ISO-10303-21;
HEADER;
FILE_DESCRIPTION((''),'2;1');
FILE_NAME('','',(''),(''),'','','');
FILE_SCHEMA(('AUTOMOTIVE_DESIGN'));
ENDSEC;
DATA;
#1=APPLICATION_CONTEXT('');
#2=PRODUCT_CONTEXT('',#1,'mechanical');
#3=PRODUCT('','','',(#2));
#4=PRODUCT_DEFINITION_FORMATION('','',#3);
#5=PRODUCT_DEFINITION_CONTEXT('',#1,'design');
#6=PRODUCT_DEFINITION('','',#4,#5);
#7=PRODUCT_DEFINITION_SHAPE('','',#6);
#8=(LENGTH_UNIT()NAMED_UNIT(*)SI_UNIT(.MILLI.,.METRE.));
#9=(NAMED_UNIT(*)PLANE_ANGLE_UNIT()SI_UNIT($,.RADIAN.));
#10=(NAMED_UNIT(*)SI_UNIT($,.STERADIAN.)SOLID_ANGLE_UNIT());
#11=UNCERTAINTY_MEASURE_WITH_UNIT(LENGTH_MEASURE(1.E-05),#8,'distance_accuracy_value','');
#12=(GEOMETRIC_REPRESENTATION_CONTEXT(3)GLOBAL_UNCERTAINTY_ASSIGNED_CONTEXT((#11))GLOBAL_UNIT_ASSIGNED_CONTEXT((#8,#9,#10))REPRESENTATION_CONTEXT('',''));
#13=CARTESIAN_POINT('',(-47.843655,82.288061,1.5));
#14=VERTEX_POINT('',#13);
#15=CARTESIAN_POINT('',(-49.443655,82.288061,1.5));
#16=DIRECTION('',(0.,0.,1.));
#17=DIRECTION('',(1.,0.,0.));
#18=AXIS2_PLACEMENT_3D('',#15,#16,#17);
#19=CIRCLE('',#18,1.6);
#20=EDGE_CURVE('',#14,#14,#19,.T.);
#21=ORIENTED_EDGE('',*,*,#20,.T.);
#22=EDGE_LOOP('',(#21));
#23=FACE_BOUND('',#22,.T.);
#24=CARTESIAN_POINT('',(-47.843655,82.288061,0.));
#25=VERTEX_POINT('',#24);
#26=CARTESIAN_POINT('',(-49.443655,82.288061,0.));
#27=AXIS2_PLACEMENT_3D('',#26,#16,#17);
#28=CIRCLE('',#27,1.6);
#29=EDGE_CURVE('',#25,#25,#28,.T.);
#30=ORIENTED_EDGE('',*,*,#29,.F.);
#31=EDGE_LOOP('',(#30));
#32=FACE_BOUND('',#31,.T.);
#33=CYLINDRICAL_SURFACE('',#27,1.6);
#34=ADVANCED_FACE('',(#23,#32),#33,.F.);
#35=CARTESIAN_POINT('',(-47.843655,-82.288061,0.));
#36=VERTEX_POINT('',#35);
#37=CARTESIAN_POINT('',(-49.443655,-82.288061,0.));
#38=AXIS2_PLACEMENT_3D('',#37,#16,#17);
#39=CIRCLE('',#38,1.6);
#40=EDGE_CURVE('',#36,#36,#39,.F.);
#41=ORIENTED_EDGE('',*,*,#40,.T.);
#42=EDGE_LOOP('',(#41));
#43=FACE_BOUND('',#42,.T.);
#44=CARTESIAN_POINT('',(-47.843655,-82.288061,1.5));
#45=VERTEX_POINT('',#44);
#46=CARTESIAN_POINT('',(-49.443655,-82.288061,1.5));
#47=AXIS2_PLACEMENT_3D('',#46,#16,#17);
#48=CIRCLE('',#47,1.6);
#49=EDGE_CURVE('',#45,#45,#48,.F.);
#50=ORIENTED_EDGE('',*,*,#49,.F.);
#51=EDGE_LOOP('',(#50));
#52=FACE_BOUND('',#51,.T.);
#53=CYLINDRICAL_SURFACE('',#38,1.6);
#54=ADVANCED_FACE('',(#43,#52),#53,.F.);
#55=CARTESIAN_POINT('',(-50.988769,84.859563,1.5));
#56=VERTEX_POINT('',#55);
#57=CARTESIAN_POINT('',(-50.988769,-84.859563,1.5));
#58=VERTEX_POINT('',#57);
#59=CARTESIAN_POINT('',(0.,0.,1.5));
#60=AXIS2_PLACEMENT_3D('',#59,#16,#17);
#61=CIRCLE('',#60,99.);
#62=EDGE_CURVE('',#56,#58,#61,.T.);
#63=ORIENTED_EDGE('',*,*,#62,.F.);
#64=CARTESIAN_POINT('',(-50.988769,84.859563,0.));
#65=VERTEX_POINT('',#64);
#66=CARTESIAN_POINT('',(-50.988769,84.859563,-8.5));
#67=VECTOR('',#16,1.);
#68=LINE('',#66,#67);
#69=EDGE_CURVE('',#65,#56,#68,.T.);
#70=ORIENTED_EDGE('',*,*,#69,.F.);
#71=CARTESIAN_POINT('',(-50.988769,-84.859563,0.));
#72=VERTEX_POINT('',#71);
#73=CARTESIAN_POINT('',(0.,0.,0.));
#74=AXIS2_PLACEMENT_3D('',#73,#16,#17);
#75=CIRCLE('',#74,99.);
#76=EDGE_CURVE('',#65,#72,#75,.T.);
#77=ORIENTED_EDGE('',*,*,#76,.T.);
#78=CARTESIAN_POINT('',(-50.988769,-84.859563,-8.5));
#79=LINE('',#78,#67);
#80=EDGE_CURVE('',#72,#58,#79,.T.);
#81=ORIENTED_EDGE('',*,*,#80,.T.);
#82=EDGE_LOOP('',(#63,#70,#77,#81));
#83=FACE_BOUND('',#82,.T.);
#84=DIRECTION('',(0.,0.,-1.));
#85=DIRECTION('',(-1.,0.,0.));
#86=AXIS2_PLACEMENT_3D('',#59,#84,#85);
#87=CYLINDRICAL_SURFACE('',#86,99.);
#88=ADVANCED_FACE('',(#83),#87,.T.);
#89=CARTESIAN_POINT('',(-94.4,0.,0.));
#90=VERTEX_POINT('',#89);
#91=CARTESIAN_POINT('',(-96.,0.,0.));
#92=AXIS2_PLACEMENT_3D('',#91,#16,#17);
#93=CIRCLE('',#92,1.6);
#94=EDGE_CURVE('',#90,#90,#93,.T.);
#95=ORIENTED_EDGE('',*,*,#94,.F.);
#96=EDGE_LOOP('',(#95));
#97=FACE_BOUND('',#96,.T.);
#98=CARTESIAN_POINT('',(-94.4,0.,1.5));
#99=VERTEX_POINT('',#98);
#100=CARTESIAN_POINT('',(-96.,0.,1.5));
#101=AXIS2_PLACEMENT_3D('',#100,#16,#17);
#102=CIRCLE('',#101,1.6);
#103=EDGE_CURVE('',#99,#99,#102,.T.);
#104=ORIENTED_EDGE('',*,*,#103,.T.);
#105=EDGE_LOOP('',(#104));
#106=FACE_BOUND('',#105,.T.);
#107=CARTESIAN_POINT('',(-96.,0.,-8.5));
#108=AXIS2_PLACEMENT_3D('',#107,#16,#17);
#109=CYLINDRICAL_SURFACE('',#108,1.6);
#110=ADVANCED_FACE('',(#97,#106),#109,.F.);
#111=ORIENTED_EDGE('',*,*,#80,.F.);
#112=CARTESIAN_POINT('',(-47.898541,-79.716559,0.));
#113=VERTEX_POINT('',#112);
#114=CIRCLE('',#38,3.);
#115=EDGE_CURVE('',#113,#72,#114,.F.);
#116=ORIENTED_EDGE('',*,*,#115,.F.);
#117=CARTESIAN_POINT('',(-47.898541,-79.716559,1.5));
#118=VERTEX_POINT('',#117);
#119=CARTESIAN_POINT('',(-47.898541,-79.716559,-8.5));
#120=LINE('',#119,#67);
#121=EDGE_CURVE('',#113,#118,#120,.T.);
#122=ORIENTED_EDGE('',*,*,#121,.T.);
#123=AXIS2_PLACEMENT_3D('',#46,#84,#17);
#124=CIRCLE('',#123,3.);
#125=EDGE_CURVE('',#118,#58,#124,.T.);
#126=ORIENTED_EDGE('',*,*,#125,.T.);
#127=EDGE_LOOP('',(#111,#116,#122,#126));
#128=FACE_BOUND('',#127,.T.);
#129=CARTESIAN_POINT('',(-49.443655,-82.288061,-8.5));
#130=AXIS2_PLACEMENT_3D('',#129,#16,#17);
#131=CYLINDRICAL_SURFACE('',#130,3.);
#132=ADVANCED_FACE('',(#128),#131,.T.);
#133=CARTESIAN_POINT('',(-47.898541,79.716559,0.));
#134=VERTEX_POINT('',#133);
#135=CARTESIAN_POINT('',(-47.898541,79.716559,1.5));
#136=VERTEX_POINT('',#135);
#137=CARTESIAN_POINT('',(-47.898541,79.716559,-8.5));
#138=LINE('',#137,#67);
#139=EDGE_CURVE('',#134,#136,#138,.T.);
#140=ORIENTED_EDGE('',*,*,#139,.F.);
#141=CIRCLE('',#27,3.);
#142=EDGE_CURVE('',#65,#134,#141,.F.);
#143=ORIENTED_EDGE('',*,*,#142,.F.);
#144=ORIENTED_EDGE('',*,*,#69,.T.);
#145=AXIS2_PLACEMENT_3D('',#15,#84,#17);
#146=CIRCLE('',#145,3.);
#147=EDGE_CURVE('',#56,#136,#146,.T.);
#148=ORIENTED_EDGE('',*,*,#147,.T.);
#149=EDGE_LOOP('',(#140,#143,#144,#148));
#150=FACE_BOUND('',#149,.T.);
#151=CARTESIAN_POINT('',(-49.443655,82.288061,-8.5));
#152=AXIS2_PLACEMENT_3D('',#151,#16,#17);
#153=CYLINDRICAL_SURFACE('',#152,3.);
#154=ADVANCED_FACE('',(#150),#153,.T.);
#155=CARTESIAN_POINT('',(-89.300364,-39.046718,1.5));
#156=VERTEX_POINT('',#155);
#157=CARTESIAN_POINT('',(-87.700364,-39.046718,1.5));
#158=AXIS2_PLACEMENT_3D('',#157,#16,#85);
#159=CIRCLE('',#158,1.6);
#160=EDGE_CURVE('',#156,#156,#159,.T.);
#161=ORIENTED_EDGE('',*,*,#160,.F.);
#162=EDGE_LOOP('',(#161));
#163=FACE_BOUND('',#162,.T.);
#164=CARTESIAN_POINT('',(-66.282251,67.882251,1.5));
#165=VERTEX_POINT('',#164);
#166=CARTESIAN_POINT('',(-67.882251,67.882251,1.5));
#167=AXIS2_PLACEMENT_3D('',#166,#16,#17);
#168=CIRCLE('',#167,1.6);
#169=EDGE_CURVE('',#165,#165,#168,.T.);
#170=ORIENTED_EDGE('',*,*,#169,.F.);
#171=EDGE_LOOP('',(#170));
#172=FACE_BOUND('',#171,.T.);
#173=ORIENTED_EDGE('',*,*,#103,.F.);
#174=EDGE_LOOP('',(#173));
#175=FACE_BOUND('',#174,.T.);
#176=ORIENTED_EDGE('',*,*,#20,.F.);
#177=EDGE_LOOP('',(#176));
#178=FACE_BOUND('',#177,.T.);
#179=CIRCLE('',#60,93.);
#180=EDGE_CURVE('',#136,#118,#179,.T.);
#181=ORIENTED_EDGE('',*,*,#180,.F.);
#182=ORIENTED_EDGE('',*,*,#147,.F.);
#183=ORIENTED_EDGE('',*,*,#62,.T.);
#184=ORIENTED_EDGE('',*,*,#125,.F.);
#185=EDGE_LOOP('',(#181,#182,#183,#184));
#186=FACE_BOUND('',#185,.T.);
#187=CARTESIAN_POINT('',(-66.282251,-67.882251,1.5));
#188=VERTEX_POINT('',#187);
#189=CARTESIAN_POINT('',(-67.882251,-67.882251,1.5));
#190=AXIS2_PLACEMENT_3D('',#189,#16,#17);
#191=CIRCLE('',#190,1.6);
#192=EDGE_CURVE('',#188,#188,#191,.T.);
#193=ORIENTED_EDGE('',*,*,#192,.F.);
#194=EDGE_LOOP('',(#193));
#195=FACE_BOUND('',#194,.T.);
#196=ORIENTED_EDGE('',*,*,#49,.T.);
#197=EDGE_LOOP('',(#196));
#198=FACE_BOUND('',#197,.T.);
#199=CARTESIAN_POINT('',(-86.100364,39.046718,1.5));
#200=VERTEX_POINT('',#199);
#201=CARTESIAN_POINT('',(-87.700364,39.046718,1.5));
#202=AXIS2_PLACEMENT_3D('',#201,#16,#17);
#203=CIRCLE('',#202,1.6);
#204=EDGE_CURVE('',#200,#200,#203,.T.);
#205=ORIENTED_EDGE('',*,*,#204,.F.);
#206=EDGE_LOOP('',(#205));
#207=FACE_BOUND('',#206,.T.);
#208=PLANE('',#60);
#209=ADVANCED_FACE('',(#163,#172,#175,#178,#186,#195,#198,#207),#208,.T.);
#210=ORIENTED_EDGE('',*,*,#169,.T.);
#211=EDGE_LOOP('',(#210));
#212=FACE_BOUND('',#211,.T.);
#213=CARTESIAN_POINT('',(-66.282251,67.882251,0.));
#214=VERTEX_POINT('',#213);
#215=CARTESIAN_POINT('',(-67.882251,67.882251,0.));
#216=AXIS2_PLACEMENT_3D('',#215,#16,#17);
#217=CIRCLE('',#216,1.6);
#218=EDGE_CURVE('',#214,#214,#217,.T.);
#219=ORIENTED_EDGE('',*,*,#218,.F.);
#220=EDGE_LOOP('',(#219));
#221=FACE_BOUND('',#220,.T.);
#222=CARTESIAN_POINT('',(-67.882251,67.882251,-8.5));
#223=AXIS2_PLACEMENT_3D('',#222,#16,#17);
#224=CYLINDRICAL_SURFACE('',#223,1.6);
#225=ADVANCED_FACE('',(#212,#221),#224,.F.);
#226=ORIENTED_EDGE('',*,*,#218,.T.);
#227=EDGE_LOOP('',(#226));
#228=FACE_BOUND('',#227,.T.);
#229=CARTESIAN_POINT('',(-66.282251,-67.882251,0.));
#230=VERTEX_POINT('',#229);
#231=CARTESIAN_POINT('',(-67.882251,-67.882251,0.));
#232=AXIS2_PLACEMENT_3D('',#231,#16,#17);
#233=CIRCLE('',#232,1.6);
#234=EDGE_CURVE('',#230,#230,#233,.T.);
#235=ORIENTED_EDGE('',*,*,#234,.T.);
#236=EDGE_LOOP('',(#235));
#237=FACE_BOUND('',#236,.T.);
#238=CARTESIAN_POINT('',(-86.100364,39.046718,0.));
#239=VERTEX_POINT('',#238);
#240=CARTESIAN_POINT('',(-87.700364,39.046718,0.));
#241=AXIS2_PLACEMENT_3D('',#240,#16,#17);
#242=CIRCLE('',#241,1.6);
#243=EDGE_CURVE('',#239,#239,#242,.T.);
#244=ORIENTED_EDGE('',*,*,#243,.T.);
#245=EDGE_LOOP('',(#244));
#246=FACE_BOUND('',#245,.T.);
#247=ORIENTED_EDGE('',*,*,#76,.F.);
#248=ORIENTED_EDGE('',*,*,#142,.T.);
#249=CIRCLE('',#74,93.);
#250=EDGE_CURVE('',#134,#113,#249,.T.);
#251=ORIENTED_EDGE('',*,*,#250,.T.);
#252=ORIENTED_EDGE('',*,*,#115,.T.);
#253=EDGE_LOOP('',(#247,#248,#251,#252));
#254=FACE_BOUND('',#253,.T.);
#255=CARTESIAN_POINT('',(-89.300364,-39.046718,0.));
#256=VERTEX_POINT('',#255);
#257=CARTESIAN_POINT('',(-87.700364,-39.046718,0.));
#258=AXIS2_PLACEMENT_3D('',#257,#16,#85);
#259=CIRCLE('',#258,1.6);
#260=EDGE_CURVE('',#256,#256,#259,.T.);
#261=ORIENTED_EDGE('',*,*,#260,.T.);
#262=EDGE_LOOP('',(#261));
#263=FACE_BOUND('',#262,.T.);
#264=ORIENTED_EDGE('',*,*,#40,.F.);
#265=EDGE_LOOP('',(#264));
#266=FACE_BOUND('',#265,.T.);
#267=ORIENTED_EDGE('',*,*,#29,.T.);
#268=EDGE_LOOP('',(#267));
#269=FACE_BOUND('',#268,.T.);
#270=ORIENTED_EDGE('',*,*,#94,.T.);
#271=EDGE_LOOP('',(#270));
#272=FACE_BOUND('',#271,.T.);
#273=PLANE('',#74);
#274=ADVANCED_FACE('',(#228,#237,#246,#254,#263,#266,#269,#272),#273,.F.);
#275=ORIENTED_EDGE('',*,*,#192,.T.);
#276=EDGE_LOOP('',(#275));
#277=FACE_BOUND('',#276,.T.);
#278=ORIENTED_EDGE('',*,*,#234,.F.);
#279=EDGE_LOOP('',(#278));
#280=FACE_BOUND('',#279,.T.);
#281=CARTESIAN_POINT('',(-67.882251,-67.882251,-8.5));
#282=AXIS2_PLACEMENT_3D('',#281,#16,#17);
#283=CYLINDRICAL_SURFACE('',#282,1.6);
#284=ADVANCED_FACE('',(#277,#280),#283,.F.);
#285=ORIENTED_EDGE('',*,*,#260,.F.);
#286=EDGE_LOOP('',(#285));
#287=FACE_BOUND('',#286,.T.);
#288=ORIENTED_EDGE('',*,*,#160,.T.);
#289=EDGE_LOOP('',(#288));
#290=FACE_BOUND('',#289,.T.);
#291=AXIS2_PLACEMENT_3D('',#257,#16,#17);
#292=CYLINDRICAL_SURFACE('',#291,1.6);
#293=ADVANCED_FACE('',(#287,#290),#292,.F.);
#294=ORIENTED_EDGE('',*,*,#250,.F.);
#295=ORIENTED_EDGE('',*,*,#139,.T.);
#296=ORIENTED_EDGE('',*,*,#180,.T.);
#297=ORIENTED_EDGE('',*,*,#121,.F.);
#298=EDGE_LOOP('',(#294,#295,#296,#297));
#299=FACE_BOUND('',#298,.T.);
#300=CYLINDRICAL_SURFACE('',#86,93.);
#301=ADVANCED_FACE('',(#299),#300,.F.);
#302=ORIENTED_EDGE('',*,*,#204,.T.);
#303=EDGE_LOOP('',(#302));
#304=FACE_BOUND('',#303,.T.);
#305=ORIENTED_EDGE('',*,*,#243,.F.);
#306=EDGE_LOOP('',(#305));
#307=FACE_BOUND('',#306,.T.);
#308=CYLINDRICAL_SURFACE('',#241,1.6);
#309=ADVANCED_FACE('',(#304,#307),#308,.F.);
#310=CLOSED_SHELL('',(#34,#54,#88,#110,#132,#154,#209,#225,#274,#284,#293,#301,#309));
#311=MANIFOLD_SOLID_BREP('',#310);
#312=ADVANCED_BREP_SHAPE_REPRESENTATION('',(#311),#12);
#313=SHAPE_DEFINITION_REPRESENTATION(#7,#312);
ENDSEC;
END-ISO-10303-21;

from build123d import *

# Parameters (mm, degrees)
SKETCH1_R            = 1.4
SKETCH1_R_2          = 1.6
SKETCH1_R_3          = 56
BOSS_EXTRUDE2_DEPTH  = 1.5
BOSS_EXTRUDE3_DEPTH  = 1.5
SKETCH3_R            = 1.6
CUT_EXTRUDE1_DEPTH   = 10
SKETCH4_R            = 1.6
BOSS_EXTRUDE4_DEPTH  = 1.5
FILLET1_R            = 3
SKETCH5_R            = 1.6
BOSS_EXTRUDE5_DEPTH  = 1.5
SKETCH6_R            = 1.6
CUT_EXTRUDE2_DEPTH   = 1.5
CUT_EXTRUDE3_DEPTH   = 10
SKETCH8_R            = 1.4
BOSS_EXTRUDE6_DEPTH  = 1.5
SKETCH9_W            = 144
SKETCH9_H            = 6
BOSS_EXTRUDE7_DEPTH  = 1.5
BOSS_EXTRUDE8_DEPTH  = 1.5
SKETCH11_W           = 71.777589622
SKETCH11_H           = 10.305965164
CUT_EXTRUDE4_DEPTH   = 41
SKETCH12_W           = 71.777589622
SKETCH12_H           = 6
BOSS_EXTRUDE9_DEPTH  = 1.5
SKETCH13_W           = 6
SKETCH13_H           = 51.475780146
SKETCH13_H_2         = 46.82423944
BOSS_EXTRUDE10_DEPTH = 1.5
SKETCH14_W           = 66
SKETCH14_H           = 6
CUT_EXTRUDE5_DEPTH   = 41
BOSS_EXTRUDE11_DEPTH = 1.5
SKETCH16_R           = 1.6
CUT_EXTRUDE6_DEPTH   = 5
SKETCH17_R           = 1.6
CUT_EXTRUDE7_DEPTH   = 5
SKETCH18_R           = 1.6
BOSS_EXTRUDE14_DEPTH = 1.5
BOSS_EXTRUDE15_DEPTH = 1.5
SKETCH21_W           = 1.5
SKETCH21_H           = 32.106154556
BOSS_EXTRUDE16_DEPTH = 1.5
SKETCH22_R           = 1.6
SKETCH22_R_2         = 1.7
CUT_EXTRUDE9_DEPTH   = 1.5
BOSS_EXTRUDE17_DEPTH = 1.5
SKETCH24_R           = 1.6
CUT_EXTRUDE10_DEPTH  = 1.5
SKETCH25_R           = 1.6
BOSS_EXTRUDE18_DEPTH = 1.5
SKETCH26_R           = 1.6
CUT_EXTRUDE11_DEPTH  = 1.5
SKETCH28_R           = 1.6
CUT_EXTRUDE12_DEPTH  = 1.5
SKETCH29_R           = 1.6
BOSS_EXTRUDE19_DEPTH = 1.5
SKETCH30_W           = 4.95
SKETCH30_H           = 32.106154556
SKETCH30_W_2         = 1.5
CUT_EXTRUDE13_DEPTH  = 1.5
BOSS_EXTRUDE20_DEPTH = 1.5
SKETCH32_R           = 1.6
BOSS_EXTRUDE21_DEPTH = 1.5
CUT_EXTRUDE14_DEPTH  = 10
SKETCH34_R           = 1.6
CUT_EXTRUDE15_DEPTH  = 10


with BuildPart() as part:
    # Sketch1 → Boss-Extrude2 (new body)
    with BuildSketch(Plane.XY):
        with BuildLine():
            Line((-35.888794811, 73.41211972), (-35.888794811, 92.265889727))
            ThreePointArc((-35.888794811, 92.265889727), (-42.061063674, 89.620683565), (-48.039811225, 86.563136135))
            Line((-48.039811225, 86.563136135), (-41.888794811, 80.41211972))
            Line((-41.888794811, 80.41211972), (-41.888794811, 65.59143593))
            Line((-41.888794811, 65.59143593), (-53.74011537, 53.74011537))
            Line((-53.74011537, 53.74011537), (-65.053823869, 42.426406871))
            Line((-65.053823869, 42.426406871), (-71.46564447, 36.01458627))
            Line((-71.46564447, 36.01458627), (-82.641648571, 47.190590371))
            ThreePointArc((-82.641648571, 47.190590371), (-85.206397148, 48.036317618), (-87.411811693, 46.477684716))
            ThreePointArc((-87.411811693, 46.477684716), (-99, 0), (-87.411811693, -46.477684716))
            ThreePointArc((-87.411811693, -46.477684716), (-85.206397148, -48.036317618), (-82.641648571, -47.190590371))
            Line((-82.641648571, -47.190590371), (-71.46564447, -36.01458627))
            Line((-71.46564447, -36.01458627), (-65.053823869, -42.426406871))
            Line((-65.053823869, -42.426406871), (-53.74011537, -53.74011537))
            Line((-53.74011537, -53.74011537), (-41.888794811, -65.59143593))
            Line((-41.888794811, -65.59143593), (-41.888794811, -80.41211972))
            Line((-41.888794811, -80.41211972), (-48.039811225, -86.563136135))
            ThreePointArc((-48.039811225, -86.563136135), (-42.061063674, -89.620683565), (-35.888794811, -92.265889727))
            Line((-35.888794811, -92.265889727), (-35.888794811, -73.41211972))
            Line((-35.888794811, -73.41211972), (35.888794811, -73.41211972))
            Line((35.888794811, -73.41211972), (35.888794811, -92.265889727))
            ThreePointArc((35.888794811, -92.265889727), (42.061063674, -89.620683565), (48.039811225, -86.563136135))
            Line((48.039811225, -86.563136135), (41.888794811, -80.41211972))
            Line((41.888794811, -80.41211972), (41.888794811, -65.59143593))
            Line((41.888794811, -65.59143593), (53.74011537, -53.74011537))
            Line((53.74011537, -53.74011537), (65.053823869, -42.426406871))
            Line((65.053823869, -42.426406871), (71.46564447, -36.01458627))
            Line((71.46564447, -36.01458627), (82.641648571, -47.190590371))
            ThreePointArc((82.641648571, -47.190590371), (85.206397148, -48.036317618), (87.411811693, -46.477684716))
            ThreePointArc((87.411811693, -46.477684716), (99, 0), (87.411811693, 46.477684716))
            ThreePointArc((87.411811693, 46.477684716), (85.206397148, 48.036317618), (82.641648571, 47.190590371))
            Line((82.641648571, 47.190590371), (71.46564447, 36.01458627))
            Line((71.46564447, 36.01458627), (65.053823869, 42.426406871))
            Line((65.053823869, 42.426406871), (53.74011537, 53.74011537))
            Line((53.74011537, 53.74011537), (41.888794811, 65.59143593))
            Line((41.888794811, 65.59143593), (41.888794811, 80.41211972))
            Line((41.888794811, 80.41211972), (48.039811225, 86.563136135))
            ThreePointArc((48.039811225, 86.563136135), (42.061063674, 89.620683565), (35.888794811, 92.265889727))
            Line((35.888794811, 92.265889727), (35.888794811, 73.41211972))
            Line((35.888794811, 73.41211972), (-35.888794811, 73.41211972))
        make_face()
        with Locations((-36.062445841, 54.447222151)):
            Circle(SKETCH1_R, mode=Mode.SUBTRACT)
        with Locations((-54.447222151, 36.062445841)):
            Circle(SKETCH1_R, mode=Mode.SUBTRACT)
        with Locations((-60.104076401, 41.71930009)):
            Circle(SKETCH1_R, mode=Mode.SUBTRACT)
        with Locations((-41.71930009, 60.104076401)):
            Circle(SKETCH1_R, mode=Mode.SUBTRACT)
        with Locations((41.365746699, 41.365746699)):
            Circle(SKETCH1_R_2, mode=Mode.SUBTRACT)
        with Locations((41.71930009, 60.104076401)):
            Circle(SKETCH1_R, mode=Mode.SUBTRACT)
        with Locations((60.104076401, 41.71930009)):
            Circle(SKETCH1_R, mode=Mode.SUBTRACT)
        with Locations((54.447222151, 36.062445841)):
            Circle(SKETCH1_R, mode=Mode.SUBTRACT)
        Circle(SKETCH1_R_3, mode=Mode.SUBTRACT)
        with Locations((36.062445841, 54.447222151)):
            Circle(SKETCH1_R, mode=Mode.SUBTRACT)
        with Locations((-40.571353127, 87.005547556)):
            Circle(SKETCH1_R_2, mode=Mode.SUBTRACT)
        with Locations((40.571353127, -87.005547556)):
            Circle(SKETCH1_R_2, mode=Mode.SUBTRACT)
        with Locations((-40.571353127, -87.005547556)):
            Circle(SKETCH1_R_2, mode=Mode.SUBTRACT)
        with Locations((41.365746699, -41.365746699)):
            Circle(SKETCH1_R_2, mode=Mode.SUBTRACT)
        with Locations((-41.365746699, 41.365746699)):
            Circle(SKETCH1_R_2, mode=Mode.SUBTRACT)
        with Locations((-84.762968914, 45.069270027)):
            Circle(SKETCH1_R_2, mode=Mode.SUBTRACT)
        with Locations((-41.365746699, -41.365746699)):
            Circle(SKETCH1_R_2, mode=Mode.SUBTRACT)
        with Locations((84.762968914, 45.069270027)):
            Circle(SKETCH1_R_2, mode=Mode.SUBTRACT)
        with Locations((40.571353127, 87.005547556)):
            Circle(SKETCH1_R_2, mode=Mode.SUBTRACT)
        with Locations((36.062445841, -54.447222151)):
            Circle(SKETCH1_R, mode=Mode.SUBTRACT)
        with Locations((54.447222151, -36.062445841)):
            Circle(SKETCH1_R, mode=Mode.SUBTRACT)
        with Locations((60.104076401, -41.71930009)):
            Circle(SKETCH1_R, mode=Mode.SUBTRACT)
        with Locations((41.71930009, -60.104076401)):
            Circle(SKETCH1_R, mode=Mode.SUBTRACT)
        with Locations((-41.71930009, -60.104076401)):
            Circle(SKETCH1_R, mode=Mode.SUBTRACT)
        with Locations((-60.104076401, -41.71930009)):
            Circle(SKETCH1_R, mode=Mode.SUBTRACT)
        with Locations((-54.447222151, -36.062445841)):
            Circle(SKETCH1_R, mode=Mode.SUBTRACT)
        with Locations((-36.062445841, -54.447222151)):
            Circle(SKETCH1_R, mode=Mode.SUBTRACT)
        with Locations((84.762968914, -45.069270027)):
            Circle(SKETCH1_R_2, mode=Mode.SUBTRACT)
        with Locations((-84.762968914, -45.069270027)):
            Circle(SKETCH1_R_2, mode=Mode.SUBTRACT)
        with BuildLine():
            Line((-56.568542495, 42.426406871), (-49.621038435, 35.478902811))
            ThreePointArc((-49.621038435, 35.478902811), (-43.133513652, 43.133513652), (-35.478902811, 49.621038435))
            Line((-35.478902811, 49.621038435), (-42.426406871, 56.568542495))
            Line((-42.426406871, 56.568542495), (-56.568542495, 42.426406871))
        make_face(mode=Mode.SUBTRACT)
        with BuildLine():
            Line((-57.337431152, 34.710014154), (-52.937019276, 30.309602278))
            ThreePointArc((-52.937019276, 30.309602278), (-61, 0), (-52.937019276, -30.309602278))
            Line((-52.937019276, -30.309602278), (-57.337431152, -34.710014154))
            Line((-57.337431152, -34.710014154), (-60.811183182, -38.183766184))
            Line((-60.811183182, -38.183766184), (-71.46564447, -27.529304896))
            Line((-71.46564447, -27.529304896), (-83.951228087, -40.014888513))
            ThreePointArc((-83.951228087, -40.014888513), (-93, 0), (-83.951228087, 40.014888513))
            Line((-83.951228087, 40.014888513), (-71.46564447, 27.529304896))
            Line((-71.46564447, 27.529304896), (-60.811183182, 38.183766184))
            Line((-60.811183182, 38.183766184), (-57.337431152, 34.710014154))
        make_face(mode=Mode.SUBTRACT)
        with BuildLine():
            Line((-35.888794811, 67.41211972), (-35.888794811, 58.516211808))
            Line((-35.888794811, 58.516211808), (-30.309602278, 52.937019275))
            ThreePointArc((-30.309602278, 52.937019275), (0, 61), (30.309602278, 52.937019275))
            Line((30.309602278, 52.937019275), (35.888794811, 58.516211808))
            Line((35.888794811, 58.516211808), (35.888794811, 67.41211972))
            Line((35.888794811, 67.41211972), (0, 67.41211972))
            Line((0, 67.41211972), (-35.888794811, 67.41211972))
        make_face(mode=Mode.SUBTRACT)
        with BuildLine():
            Line((60.811183182, 38.183766184), (71.46564447, 27.529304896))
            Line((71.46564447, 27.529304896), (83.951228087, 40.014888513))
            ThreePointArc((83.951228087, 40.014888513), (93, 0), (83.951228087, -40.014888513))
            Line((83.951228087, -40.014888513), (71.46564447, -27.529304896))
            Line((71.46564447, -27.529304896), (60.811183182, -38.183766184))
            Line((60.811183182, -38.183766184), (57.337431152, -34.710014154))
            Line((57.337431152, -34.710014154), (52.937019276, -30.309602278))
            ThreePointArc((52.937019276, -30.309602278), (61, 0), (52.937019276, 30.309602278))
            Line((52.937019276, 30.309602278), (57.337431152, 34.710014154))
            Line((57.337431152, 34.710014154), (60.811183182, 38.183766184))
        make_face(mode=Mode.SUBTRACT)
        with BuildLine():
            Line((42.426406871, 56.568542495), (56.568542495, 42.426406871))
            Line((56.568542495, 42.426406871), (49.621038435, 35.478902811))
            ThreePointArc((49.621038435, 35.478902811), (43.133513652, 43.133513652), (35.478902811, 49.621038435))
            Line((35.478902811, 49.621038435), (42.426406871, 56.568542495))
        make_face(mode=Mode.SUBTRACT)
        with BuildLine():
            Line((0, -67.41211972), (35.888794811, -67.41211972))
            Line((35.888794811, -67.41211972), (35.888794811, -58.516211808))
            Line((35.888794811, -58.516211808), (30.309602278, -52.937019275))
            ThreePointArc((30.309602278, -52.937019275), (0, -61), (-30.309602278, -52.937019275))
            Line((-30.309602278, -52.937019275), (-35.888794811, -58.516211808))
            Line((-35.888794811, -58.516211808), (-35.888794811, -67.41211972))
            Line((-35.888794811, -67.41211972), (0, -67.41211972))
        make_face(mode=Mode.SUBTRACT)
        with BuildLine():
            Line((56.568542495, -42.426406871), (49.621038435, -35.478902811))
            ThreePointArc((49.621038435, -35.478902811), (43.133513652, -43.133513652), (35.478902811, -49.621038435))
            Line((35.478902811, -49.621038435), (42.426406871, -56.568542495))
            Line((42.426406871, -56.568542495), (56.568542495, -42.426406871))
        make_face(mode=Mode.SUBTRACT)
        with BuildLine():
            Line((-42.426406871, -56.568542495), (-56.568542495, -42.426406871))
            Line((-56.568542495, -42.426406871), (-49.621038435, -35.478902811))
            ThreePointArc((-49.621038435, -35.478902811), (-43.133513652, -43.133513652), (-35.478902811, -49.621038435))
            Line((-35.478902811, -49.621038435), (-42.426406871, -56.568542495))
        make_face(mode=Mode.SUBTRACT)
    extrude(amount=BOSS_EXTRUDE2_DEPTH)

    # Sketch2 → Boss-Extrude3 (add)
    with BuildSketch(Plane.XY.offset(1.5)):
        with BuildLine():
            Line((-41.888794811, 80.41211972), (-41.888794811, 78.41211972))
            Line((-41.888794811, 78.41211972), (-49.31800671, 85.841331619))
            ThreePointArc((-49.31800671, 85.841331619), (-47.440229793, 86.893179233), (-45.540030314, 87.903956902))
            Line((-45.540030314, 87.903956902), (-41.888794811, 84.252721398))
            Line((-41.888794811, 84.252721398), (-41.888794811, 80.41211972))
        make_face()
        with BuildLine():
            Line((41.888794811, 84.252721398), (45.540030314, 87.903956902))
            ThreePointArc((45.540030314, 87.903956902), (47.440229793, 86.893179233), (49.31800671, 85.841331619))
            Line((49.31800671, 85.841331619), (41.888794811, 78.41211972))
            Line((41.888794811, 78.41211972), (41.888794811, 80.41211972))
            Line((41.888794811, 80.41211972), (41.888794811, 84.252721398))
        make_face()
        with BuildLine():
            Line((41.888794811, -80.41211972), (41.888794811, -78.41211972))
            Line((41.888794811, -78.41211972), (49.31800671, -85.841331619))
            ThreePointArc((49.31800671, -85.841331619), (47.440229793, -86.893179233), (45.540030314, -87.903956902))
            Line((45.540030314, -87.903956902), (41.888794811, -84.252721398))
            Line((41.888794811, -84.252721398), (41.888794811, -80.41211972))
        make_face()
        with BuildLine():
            Line((-41.888794811, -84.252721398), (-45.540030314, -87.903956902))
            ThreePointArc((-45.540030314, -87.903956902), (-47.440229793, -86.893179233), (-49.31800671, -85.841331619))
            Line((-49.31800671, -85.841331619), (-41.888794811, -78.41211972))
            Line((-41.888794811, -78.41211972), (-41.888794811, -80.41211972))
            Line((-41.888794811, -80.41211972), (-41.888794811, -84.252721398))
        make_face()
    extrude(amount=-BOSS_EXTRUDE3_DEPTH)

    # Sketch3 → Cut-Extrude1 (cut)
    with BuildSketch(Plane.XY.offset(1.5)):
        with Locations((-44.327866871, 85.153039985)):
            Circle(SKETCH3_R)
        with Locations((44.327866871, 85.153039985)):
            Circle(SKETCH3_R)
        with Locations((44.327866871, -85.153039985)):
            Circle(SKETCH3_R)
        with Locations((-44.327866871, -85.153039985)):
            Circle(SKETCH3_R)
    extrude(amount=-CUT_EXTRUDE1_DEPTH, mode=Mode.SUBTRACT)

    # Sketch4 → Boss-Extrude4 (add)
    with BuildSketch(Plane.XY.offset(1.5)):
        with Locations((-40.571353127, 87.005547556)):
            Circle(SKETCH4_R)
        with Locations((40.571353127, 87.005547556)):
            Circle(SKETCH4_R)
        with Locations((40.571353127, -87.005547556)):
            Circle(SKETCH4_R)
        with Locations((-40.571353127, -87.005547556)):
            Circle(SKETCH4_R)
    extrude(amount=-BOSS_EXTRUDE4_DEPTH)

    # Fillet1
    fillet1_edges = [part.edges().sort_by_distance(p)[0] for p in [
        (35.888794811, -92.265889727, 0.75),
        (-35.888794811, -92.265889727, 0.75),
        (-35.888794811, 92.265889727, 0.75),
        (35.888794811, 92.265889727, 0.75),
        (49.31800671, 85.841331619, 0.75),
        (-49.31800671, 85.841331619, 0.75),
        (49.31800671, -85.841331619, 0.75),
        (-49.31800671, -85.841331619, 0.75),
    ]]
    fillet(fillet1_edges, radius=FILLET1_R)

    # Sketch5 → Boss-Extrude5 (add)
    with BuildSketch(Plane.XY.offset(1.5)):
        with BuildLine():
            ThreePointArc((-7, 66.41211972), (-10, 63.41211972), (-13, 66.41211972))
            Line((-13, 66.41211972), (-13, 67.41211972))
            Line((-13, 67.41211972), (-9.775161328, 70.187281048))
            Line((-9.775161328, 70.187281048), (-7, 67.41211972))
            Line((-7, 67.41211972), (-7, 66.41211972))
        make_face()
        with Locations((-10, 66.41211972)):
            Circle(SKETCH5_R, mode=Mode.SUBTRACT)
        with BuildLine():
            Line((7, 66.41211972), (7, 67.41211972))
            Line((7, 67.41211972), (9.775161328, 70.187281048))
            Line((9.775161328, 70.187281048), (13, 67.41211972))
            Line((13, 67.41211972), (13, 66.41211972))
            ThreePointArc((13, 66.41211972), (10, 63.41211972), (7, 66.41211972))
        make_face()
        with Locations((10, 66.41211972)):
            Circle(SKETCH5_R, mode=Mode.SUBTRACT)
        with BuildLine():
            ThreePointArc((7, -66.41211972), (10, -63.41211972), (13, -66.41211972))
            Line((13, -66.41211972), (13, -67.41211972))
            Line((13, -67.41211972), (9.775161328, -70.187281048))
            Line((9.775161328, -70.187281048), (7, -67.41211972))
            Line((7, -67.41211972), (7, -66.41211972))
        make_face()
        with Locations((10, -66.41211972)):
            Circle(SKETCH5_R, mode=Mode.SUBTRACT)
        with BuildLine():
            Line((-7, -66.41211972), (-7, -67.41211972))
            Line((-7, -67.41211972), (-9.775161328, -70.187281048))
            Line((-9.775161328, -70.187281048), (-13, -67.41211972))
            Line((-13, -67.41211972), (-13, -66.41211972))
            ThreePointArc((-13, -66.41211972), (-10, -63.41211972), (-7, -66.41211972))
        make_face()
        with Locations((-10, -66.41211972)):
            Circle(SKETCH5_R, mode=Mode.SUBTRACT)
    extrude(amount=-BOSS_EXTRUDE5_DEPTH)

    # Sketch6 → Cut-Extrude2 (cut)
    with BuildSketch(Plane.XY.offset(1.5)):
        with Locations((-10, -66.41211972)):
            Circle(SKETCH6_R)
        with Locations((10, -66.41211972)):
            Circle(SKETCH6_R)
        with Locations((10, 66.41211972)):
            Circle(SKETCH6_R)
        with Locations((-10, 66.41211972)):
            Circle(SKETCH6_R)
    extrude(amount=-CUT_EXTRUDE2_DEPTH, mode=Mode.SUBTRACT)

    # Sketch7 → Cut-Extrude3 (cut)
    with BuildSketch(Plane.XY.offset(1.5)):
        Polygon((-71.46564447, 27.529304896), (-31.582829646, 67.41211972), (31.582829646, 67.41211972), (71.46564447, 27.529304896), (71.46564447, -27.529304896), (31.582829646, -67.41211972), (-31.582829646, -67.41211972), (-71.46564447, -27.529304896), align=None)
    extrude(amount=-CUT_EXTRUDE3_DEPTH, mode=Mode.SUBTRACT)

    # Sketch8 → Boss-Extrude6 (add)
    with BuildSketch(Plane.XY.offset(1.5)):
        with Locations((-60.104076401, -41.71930009)):
            Circle(SKETCH8_R)
        with Locations((-41.71930009, -60.104076401)):
            Circle(SKETCH8_R)
        with Locations((-60.104076401, 41.71930009)):
            Circle(SKETCH8_R)
        with Locations((-41.71930009, 60.104076401)):
            Circle(SKETCH8_R)
        with Locations((41.71930009, 60.104076401)):
            Circle(SKETCH8_R)
        with Locations((60.104076401, 41.71930009)):
            Circle(SKETCH8_R)
        with Locations((60.104076401, -41.71930009)):
            Circle(SKETCH8_R)
        with Locations((41.71930009, -60.104076401)):
            Circle(SKETCH8_R)
        Polygon((-23.568897205, -67.41211972), (23.568897205, -67.41211972), (18.047381119, -71.229666129), (-16.662853075, -71.229666129), align=None)
        Polygon((23.568897205, 67.41211972), (-26.29313108, 67.41211972), (-20.11587514, 71.683041123), (11.2489996, 71.683041123), align=None)
    extrude(amount=-BOSS_EXTRUDE6_DEPTH)

    # Sketch9 → Boss-Extrude7 (add)
    with BuildSketch(Plane.XY.offset(1.5)):
        with Locations((0, 26.41211972)):
            Rectangle(SKETCH9_W, SKETCH9_H)
        with Locations((0, -26.41211972)):
            Rectangle(SKETCH9_W, SKETCH9_H)
    extrude(amount=-BOSS_EXTRUDE7_DEPTH)

    # Sketch10 → Boss-Extrude8 (add)
    with BuildSketch(Plane.XY.offset(1.5)):
        Polygon((-72, 23.41211972), (-66, 23.41211972), (-66, 35.490217447), (-72, 28.063660426), align=None)
        Polygon((72, 28.063660426), (72, 23.41211972), (66, 23.41211972), (66, 35.490217447), align=None)
        Polygon((72, -23.41211972), (66, -23.41211972), (66, -35.490217447), (72, -28.063660426), align=None)
        Polygon((-72, -28.063660426), (-72, -23.41211972), (-66, -23.41211972), (-66, -35.490217447), align=None)
    extrude(amount=-BOSS_EXTRUDE8_DEPTH)

    # Sketch11 → Cut-Extrude4 (cut)
    with BuildSketch(Plane.XY.offset(1.5)):
        with Locations((0, 68.259137138)):
            Rectangle(SKETCH11_W, SKETCH11_H)
        with Locations((0, -68.259137138)):
            Rectangle(SKETCH11_W, SKETCH11_H)
    extrude(amount=-CUT_EXTRUDE4_DEPTH, mode=Mode.SUBTRACT)

    # Sketch12 → Boss-Extrude9 (add)
    with BuildSketch(Plane.XY.offset(1.5)):
        with Locations((0, 66.106154556)):
            Rectangle(SKETCH12_W, SKETCH12_H)
        with Locations((0, -66.106154556)):
            Rectangle(SKETCH12_W, SKETCH12_H)
    extrude(amount=-BOSS_EXTRUDE9_DEPTH)

    # Sketch13 → Boss-Extrude10 (add)
    with BuildSketch(Plane.XY.offset(1.5)):
        with Locations((-69, -2.325770353)):
            Rectangle(SKETCH13_W, SKETCH13_H)
        with Locations((69, 0)):
            Rectangle(SKETCH13_W, SKETCH13_H_2)
    extrude(amount=-BOSS_EXTRUDE10_DEPTH)

    # Sketch14 → Cut-Extrude5 (cut)
    with BuildSketch(Plane.XY.offset(1.5)):
        with Locations((33, 26.41211972)):
            Rectangle(SKETCH14_W, SKETCH14_H)
        with Locations((-33, 26.41211972)):
            Rectangle(SKETCH14_W, SKETCH14_H)
        with Locations((-33, -26.41211972)):
            Rectangle(SKETCH14_W, SKETCH14_H)
        with Locations((33, -26.41211972)):
            Rectangle(SKETCH14_W, SKETCH14_H)
    extrude(amount=-CUT_EXTRUDE5_DEPTH, mode=Mode.SUBTRACT)

    # Sketch15 → Boss-Extrude11 (add)
    with BuildSketch(Plane.XY.offset(1.5)):
        Polygon((-66, -25), (0, -25), (66, -25), (66, -31), (-66, -31), align=None)
        Polygon((0, 25), (66, 25), (66, 31), (-66, 31), (-66, 25), align=None)
    extrude(amount=-BOSS_EXTRUDE11_DEPTH)

    # Sketch16 → Cut-Extrude6 (cut)
    with BuildSketch(Plane.XY.offset(1.5)):
        with Locations((60, 28)):
            Circle(SKETCH16_R)
        with Locations((-60, 28)):
            Circle(SKETCH16_R)
        with Locations((-60, -28)):
            Circle(SKETCH16_R)
        with Locations((60, -28)):
            Circle(SKETCH16_R)
    extrude(amount=-CUT_EXTRUDE6_DEPTH, mode=Mode.SUBTRACT)

    # Sketch17 → Cut-Extrude7 (cut)
    with BuildSketch(Plane.XY.offset(1.5)):
        with Locations((-40, 28)):
            Circle(SKETCH17_R)
        with Locations((40, 28)):
            Circle(SKETCH17_R)
        with Locations((40, -28)):
            Circle(SKETCH17_R)
        with Locations((-40, -28)):
            Circle(SKETCH17_R)
    extrude(amount=-CUT_EXTRUDE7_DEPTH, mode=Mode.SUBTRACT)

    # Sketch18 → Boss-Extrude14 (add)
    with BuildSketch(Plane.XY.offset(1.5)):
        Polygon((34.5, 63.106154556), (34.5, 31), (31.5, 31), (28.5, 31), (28.5, 63.106154556), align=None)
        with Locations((31.5, 49)):
            Circle(SKETCH18_R, mode=Mode.SUBTRACT)
        with Locations((31.5, 39)):
            Circle(SKETCH18_R, mode=Mode.SUBTRACT)
        Polygon((-34.5, -63.106154556), (-34.5, -31), (-31.5, -31), (-28.5, -31), (-28.5, -63.106154556), align=None)
        with Locations((-31.5, -49)):
            Circle(SKETCH18_R, mode=Mode.SUBTRACT)
        with Locations((-31.5, -39)):
            Circle(SKETCH18_R, mode=Mode.SUBTRACT)
    extrude(amount=-BOSS_EXTRUDE14_DEPTH)

    # Sketch19 → Boss-Extrude15 (add)
    with BuildSketch(Plane.XY.offset(1.5)):
        Polygon((-38, 31), (-35, 31), (-35, 63.106154556), (-35.888794811, 63.106154556), (-41, 57.994949366), (-41, 31), align=None)
        with BuildLine():
            ThreePointArc((-36.4, 39), (-36.86862915, 37.86862915), (-38, 37.4))
            ThreePointArc((-38, 37.4), (-39.6, 39), (-38, 40.6))
            ThreePointArc((-38, 40.6), (-36.86862915, 40.13137085), (-36.4, 39))
        make_face(mode=Mode.SUBTRACT)
        with BuildLine():
            ThreePointArc((-36.4, 49), (-36.86862915, 47.86862915), (-38, 47.4))
            ThreePointArc((-38, 47.4), (-39.13137085, 50.13137085), (-36.4, 49))
        make_face(mode=Mode.SUBTRACT)
        Polygon((38, -31), (35, -31), (35, -63.106154556), (35.888794811, -63.106154556), (41, -57.994949366), (41, -31), align=None)
        with BuildLine():
            ThreePointArc((39.6, -49), (36.86862915, -50.13137085), (38, -47.4))
            ThreePointArc((38, -47.4), (39.13137085, -47.86862915), (39.6, -49))
        make_face(mode=Mode.SUBTRACT)
        with BuildLine():
            ThreePointArc((38, -40.6), (36.4, -39), (38, -37.4))
            ThreePointArc((38, -37.4), (39.13137085, -37.86862915), (39.6, -39))
            ThreePointArc((39.6, -39), (39.13137085, -40.13137085), (38, -40.6))
        make_face(mode=Mode.SUBTRACT)
    extrude(amount=-BOSS_EXTRUDE15_DEPTH)

    # Sketch21 → Boss-Extrude16 (add)
    with BuildSketch(Plane.XY.offset(1.5)):
        with BuildLine():
            ThreePointArc((-32.25, -40.413329403), (-31.4, -39), (-32.25, -37.586670597))
            ThreePointArc((-32.25, -37.586670597), (-29.9, -39), (-32.25, -40.413329403))
        make_face()
        with BuildLine():
            ThreePointArc((-32.25, -50.413329403), (-31.4, -49), (-32.25, -47.586670597))
            ThreePointArc((-32.25, -47.586670597), (-29.9, -49), (-32.25, -50.413329403))
        make_face()
        with Locations((-35.25, -47.053077278)):
            Rectangle(SKETCH21_W, SKETCH21_H)
        Polygon((42.5, -56.494949366), (41, -57.994949366), (41, -31), (42.5, -31), align=None)
        with BuildLine():
            ThreePointArc((38.75, -50.413329403), (36.4, -49), (38.75, -47.586670597))
            ThreePointArc((38.75, -47.586670597), (37.9, -49), (38.75, -50.413329403))
        make_face()
        with BuildLine():
            ThreePointArc((38.75, -40.413329403), (36.4, -39), (38.75, -37.586670597))
            ThreePointArc((38.75, -37.586670597), (37.9, -39), (38.75, -40.413329403))
        make_face()
        with Locations((35.25, 47.053077278)):
            Rectangle(SKETCH21_W, SKETCH21_H)
        with BuildLine():
            ThreePointArc((32.25, 47.586670597), (29.9, 49), (32.25, 50.413329403))
            ThreePointArc((32.25, 50.413329403), (31.4, 49), (32.25, 47.586670597))
        make_face()
        with BuildLine():
            ThreePointArc((32.25, 37.586670597), (29.9, 39), (32.25, 40.413329403))
            ThreePointArc((32.25, 40.413329403), (31.4, 39), (32.25, 37.586670597))
        make_face()
        with BuildLine():
            ThreePointArc((-38.75, 47.586670597), (-37.9, 49), (-38.75, 50.413329403))
            ThreePointArc((-38.75, 50.413329403), (-36.4, 49), (-38.75, 47.586670597))
        make_face()
        with BuildLine():
            ThreePointArc((-38.75, 37.586670597), (-37.9, 39), (-38.75, 40.413329403))
            ThreePointArc((-38.75, 40.413329403), (-36.4, 39), (-38.75, 37.586670597))
        make_face()
        Polygon((-41, 57.994949366), (-41, 31), (-42.5, 31), (-42.5, 56.494949366), align=None)
    extrude(amount=-BOSS_EXTRUDE16_DEPTH)

    # Sketch22 → Cut-Extrude9 (cut)
    with BuildSketch(Plane.XY.offset(1.5)):
        with Locations((-39.5, 49)):
            Circle(SKETCH22_R)
        with Locations((-39.6, 39)):
            Circle(SKETCH22_R_2)
        with Locations((33, 49)):
            Circle(SKETCH22_R)
        with Locations((33, 39)):
            Circle(SKETCH22_R)
        with Locations((-33, -39)):
            Circle(SKETCH22_R)
        with Locations((-33, -49)):
            Circle(SKETCH22_R)
        with Locations((39.5, -39)):
            Circle(SKETCH22_R)
        with Locations((39.5, -49)):
            Circle(SKETCH22_R)
    extrude(amount=-CUT_EXTRUDE9_DEPTH, mode=Mode.SUBTRACT)

    # Sketch23 → Boss-Extrude17 (add)
    with BuildSketch(Plane.XY.offset(1.5)):
        Polygon((36, 31), (39.45, 31), (39.45, 59.544949366), (36, 62.994949366), align=None)
        Polygon((-36, -31), (-39.45, -31), (-39.45, -59.544949366), (-36, -62.994949366), align=None)
    extrude(amount=-BOSS_EXTRUDE17_DEPTH)

    # Sketch24 → Cut-Extrude10 (cut)
    with BuildSketch(Plane.XY.offset(1.5)):
        with Locations((-36.45, -49)):
            Circle(SKETCH24_R)
        with Locations((-36.45, -39)):
            Circle(SKETCH24_R)
        with Locations((36.45, 49)):
            Circle(SKETCH24_R)
        with Locations((36.45, 39)):
            Circle(SKETCH24_R)
    extrude(amount=-CUT_EXTRUDE10_DEPTH, mode=Mode.SUBTRACT)

    # Sketch25 → Boss-Extrude18 (add)
    with BuildSketch(Plane.XY.offset(1.5)):
        with BuildLine():
            Line((-93.258777892, -26.525048498), (-91.439555948, -32.242603178))
            Line((-91.439555948, -32.242603178), (-87.090389028, -30.85877734))
            ThreePointArc((-87.090389028, -30.85877734), (-85.14122266, -27.090389028), (-88.909610972, -25.14122266))
            Line((-88.909610972, -25.14122266), (-93.258777892, -26.525048498))
        make_face()
        with Locations((-88, -28)):
            Circle(SKETCH25_R, mode=Mode.SUBTRACT)
        with BuildLine():
            Line((-87.090389028, 30.85877734), (-91.439555948, 32.242603178))
            Line((-91.439555948, 32.242603178), (-93.258777892, 26.525048498))
            Line((-93.258777892, 26.525048498), (-88.909610972, 25.14122266))
            ThreePointArc((-88.909610972, 25.14122266), (-85.14122266, 27.090389028), (-87.090389028, 30.85877734))
        make_face()
        with Locations((-88, 28)):
            Circle(SKETCH25_R, mode=Mode.SUBTRACT)
        with BuildLine():
            Line((87.090389028, -30.85877734), (91.439555948, -32.242603178))
            Line((91.439555948, -32.242603178), (93.258777892, -26.525048498))
            Line((93.258777892, -26.525048498), (88.909610972, -25.14122266))
            ThreePointArc((88.909610972, -25.14122266), (85.14122266, -27.090389028), (87.090389028, -30.85877734))
        make_face()
        with Locations((88, -28)):
            Circle(SKETCH25_R, mode=Mode.SUBTRACT)
        with BuildLine():
            Line((93.258777892, 26.525048498), (91.439555948, 32.242603178))
            Line((91.439555948, 32.242603178), (87.090389028, 30.85877734))
            ThreePointArc((87.090389028, 30.85877734), (85.14122266, 27.090389028), (88.909610972, 25.14122266))
            Line((88.909610972, 25.14122266), (93.258777892, 26.525048498))
        make_face()
        with Locations((88, 28)):
            Circle(SKETCH25_R, mode=Mode.SUBTRACT)
    extrude(amount=-BOSS_EXTRUDE18_DEPTH)

    # Sketch26 → Cut-Extrude11 (cut)
    with BuildSketch(Plane.XY.offset(1.5)):
        with Locations((-88, 28)):
            Circle(SKETCH26_R)
        with Locations((-88, -28)):
            Circle(SKETCH26_R)
        with Locations((88, -28)):
            Circle(SKETCH26_R)
        with Locations((88, 28)):
            Circle(SKETCH26_R)
    extrude(amount=-CUT_EXTRUDE11_DEPTH, mode=Mode.SUBTRACT)

    # Sketch28 → Cut-Extrude12 (cut)
    with BuildSketch(Plane.XY.offset(1.5)):
        with Locations((-87.700363934, 39.046717735)):
            Circle(SKETCH28_R)
        with Locations((87.700363934, 39.046717735)):
            Circle(SKETCH28_R)
        with Locations((87.700363934, -39.046717735)):
            Circle(SKETCH28_R)
        with Locations((-87.700363934, -39.046717735)):
            Circle(SKETCH28_R)
    extrude(amount=-CUT_EXTRUDE12_DEPTH, mode=Mode.SUBTRACT)

    # Sketch29 → Boss-Extrude19 (add)
    with BuildSketch(Plane.XY.offset(1.5)):
        with BuildLine():
            Line((42.598378746, 89.366538079), (38.032036127, 79.786872289))
            Line((38.032036127, 79.786872289), (41.393256923, 64.252993798))
            Line((41.393256923, 64.252993798), (46.575002765, 72.29639768))
            Line((46.575002765, 72.29639768), (51.939928592, 80.62414407))
            Line((51.939928592, 80.62414407), (51.990700761, 80.70295555))
            ThreePointArc((51.990700761, 80.70295555), (52.360123748, 82.991062404), (50.988769416, 84.85956277))
            ThreePointArc((50.988769416, 84.85956277), (46.847804451, 87.214008153), (42.598378746, 89.366538079))
        make_face()
        with Locations((44.327866871, 85.153039985)):
            Circle(SKETCH29_R, mode=Mode.SUBTRACT)
        with Locations((49.443655191, 82.288060867)):
            Circle(SKETCH29_R, mode=Mode.SUBTRACT)
        with BuildLine():
            ThreePointArc((-50.988769416, 84.85956277), (-52.360123748, 82.991062404), (-51.990700761, 80.70295555))
            Line((-51.990700761, 80.70295555), (-51.939928592, 80.62414407))
            Line((-51.939928592, 80.62414407), (-46.575002765, 72.29639768))
            Line((-46.575002765, 72.29639768), (-41.393256923, 64.252993798))
            Line((-41.393256923, 64.252993798), (-38.032036127, 79.786872289))
            Line((-38.032036127, 79.786872289), (-42.598378746, 89.366538079))
            ThreePointArc((-42.598378746, 89.366538079), (-46.847804451, 87.214008153), (-50.988769416, 84.85956277))
        make_face()
        with Locations((-49.443655191, 82.288060867)):
            Circle(SKETCH29_R, mode=Mode.SUBTRACT)
        with Locations((-44.327866871, 85.153039985)):
            Circle(SKETCH29_R, mode=Mode.SUBTRACT)
        with BuildLine():
            Line((-42.598378746, -89.366538079), (-38.032036127, -79.786872289))
            Line((-38.032036127, -79.786872289), (-41.393256923, -64.252993798))
            Line((-41.393256923, -64.252993798), (-46.575002765, -72.29639768))
            Line((-46.575002765, -72.29639768), (-51.939928592, -80.62414407))
            Line((-51.939928592, -80.62414407), (-51.990700761, -80.70295555))
            ThreePointArc((-51.990700761, -80.70295555), (-52.360123748, -82.991062404), (-50.988769416, -84.85956277))
            ThreePointArc((-50.988769416, -84.85956277), (-46.847804451, -87.214008153), (-42.598378746, -89.366538079))
        make_face()
        with Locations((-49.443655191, -82.288060867)):
            Circle(SKETCH29_R, mode=Mode.SUBTRACT)
        with Locations((-44.327866871, -85.153039985)):
            Circle(SKETCH29_R, mode=Mode.SUBTRACT)
        with BuildLine():
            ThreePointArc((50.988769416, -84.85956277), (52.360123748, -82.991062404), (51.990700761, -80.70295555))
            Line((51.990700761, -80.70295555), (51.939928592, -80.62414407))
            Line((51.939928592, -80.62414407), (46.575002765, -72.29639768))
            Line((46.575002765, -72.29639768), (41.393256923, -64.252993798))
            Line((41.393256923, -64.252993798), (38.032036127, -79.786872289))
            Line((38.032036127, -79.786872289), (42.598378746, -89.366538079))
            ThreePointArc((42.598378746, -89.366538079), (46.847804451, -87.214008153), (50.988769416, -84.85956277))
        make_face()
        with Locations((44.327866871, -85.153039985)):
            Circle(SKETCH29_R, mode=Mode.SUBTRACT)
        with Locations((49.443655191, -82.288060867)):
            Circle(SKETCH29_R, mode=Mode.SUBTRACT)
    extrude(amount=-BOSS_EXTRUDE19_DEPTH)

    # Sketch30 → Cut-Extrude13 (cut)
    with BuildSketch(Plane.XY.offset(1.5)):
        with Locations((-30.975, -47.053077278)):
            Rectangle(SKETCH30_W, SKETCH30_H)
        with Locations((35.75, -47.053077278)):
            Rectangle(SKETCH30_W_2, SKETCH30_H)
        with Locations((-35.75, 47.053077278)):
            Rectangle(SKETCH30_W_2, SKETCH30_H)
        with Locations((30.975, 47.053077278)):
            Rectangle(SKETCH30_W, SKETCH30_H)
    extrude(amount=-CUT_EXTRUDE13_DEPTH, mode=Mode.SUBTRACT)

    # Sketch31 → Boss-Extrude20 (add)
    with BuildSketch(Plane.XY.offset(1.5)):
        Polygon((-33.45, -37.464584747), (-33.45, -54.487199965), (-35.24979153, -54.197542826), (-34.606108999, -47.664165134), (-34.927950264, -41.098603317), (-34.516917919, -36.926625012), align=None)
        Polygon((34.796478965, 51.236898102), (34.796478965, 47.17274868), (34.796478965, 35.517074868), (33.45, 32.015260587), (33.45, 51.901475994), align=None)
    extrude(amount=-BOSS_EXTRUDE20_DEPTH)

    # Sketch32 → Boss-Extrude21 (add)
    with BuildSketch(Plane.XY.offset(1.5)):
        with BuildLine():
            ThreePointArc((-47.898540967, 79.716558965), (-46.872153289, 83.833175092), (-50.988769416, 84.85956277))
            ThreePointArc((-50.988769416, 84.85956277), (-99, 0), (-50.988769416, -84.85956277))
            ThreePointArc((-50.988769416, -84.85956277), (-46.872153289, -83.833175092), (-47.898540967, -79.716558965))
            ThreePointArc((-47.898540967, -79.716558965), (-93, 0), (-47.898540967, 79.716558965))
        make_face()
        with Locations((-87.700363934, -39.046717735)):
            Circle(SKETCH32_R, mode=Mode.SUBTRACT)
        with Locations((-87.700363934, 39.046717735)):
            Circle(SKETCH32_R, mode=Mode.SUBTRACT)
        with Locations((-49.443655191, 82.288060867)):
            Circle(SKETCH32_R, mode=Mode.SUBTRACT)
        with Locations((-49.443655191, -82.288060867)):
            Circle(SKETCH32_R, mode=Mode.SUBTRACT)
    extrude(amount=-BOSS_EXTRUDE21_DEPTH)

    # Sketch33 → Cut-Extrude14 (cut)
    with BuildSketch(Plane.XY.offset(1.5)):
        with BuildLine():
            ThreePointArc((-47.898540967, 79.716558965), (-93, 0), (-47.898540967, -79.716558965))
            ThreePointArc((-47.898540967, -79.716558965), (-46.872153289, -83.833175092), (-50.988769416, -84.85956277))
            ThreePointArc((-50.988769416, -84.85956277), (99, 0), (-50.988769416, 84.85956277))
            ThreePointArc((-50.988769416, 84.85956277), (-46.872153289, 83.833175092), (-47.898540967, 79.716558965))
        make_face()
    extrude(amount=-CUT_EXTRUDE14_DEPTH, mode=Mode.SUBTRACT)

    # Sketch34 → Cut-Extrude15 (cut)
    with BuildSketch(Plane.XY.offset(1.5)):
        with Locations((-67.882250994, 67.882250994)):
            Circle(SKETCH34_R)
        with Locations((-96, 0)):
            Circle(SKETCH34_R)
        with Locations((-67.882250994, -67.882250994)):
            Circle(SKETCH34_R)
    extrude(amount=-CUT_EXTRUDE15_DEPTH, mode=Mode.SUBTRACT)


solid = part.part
